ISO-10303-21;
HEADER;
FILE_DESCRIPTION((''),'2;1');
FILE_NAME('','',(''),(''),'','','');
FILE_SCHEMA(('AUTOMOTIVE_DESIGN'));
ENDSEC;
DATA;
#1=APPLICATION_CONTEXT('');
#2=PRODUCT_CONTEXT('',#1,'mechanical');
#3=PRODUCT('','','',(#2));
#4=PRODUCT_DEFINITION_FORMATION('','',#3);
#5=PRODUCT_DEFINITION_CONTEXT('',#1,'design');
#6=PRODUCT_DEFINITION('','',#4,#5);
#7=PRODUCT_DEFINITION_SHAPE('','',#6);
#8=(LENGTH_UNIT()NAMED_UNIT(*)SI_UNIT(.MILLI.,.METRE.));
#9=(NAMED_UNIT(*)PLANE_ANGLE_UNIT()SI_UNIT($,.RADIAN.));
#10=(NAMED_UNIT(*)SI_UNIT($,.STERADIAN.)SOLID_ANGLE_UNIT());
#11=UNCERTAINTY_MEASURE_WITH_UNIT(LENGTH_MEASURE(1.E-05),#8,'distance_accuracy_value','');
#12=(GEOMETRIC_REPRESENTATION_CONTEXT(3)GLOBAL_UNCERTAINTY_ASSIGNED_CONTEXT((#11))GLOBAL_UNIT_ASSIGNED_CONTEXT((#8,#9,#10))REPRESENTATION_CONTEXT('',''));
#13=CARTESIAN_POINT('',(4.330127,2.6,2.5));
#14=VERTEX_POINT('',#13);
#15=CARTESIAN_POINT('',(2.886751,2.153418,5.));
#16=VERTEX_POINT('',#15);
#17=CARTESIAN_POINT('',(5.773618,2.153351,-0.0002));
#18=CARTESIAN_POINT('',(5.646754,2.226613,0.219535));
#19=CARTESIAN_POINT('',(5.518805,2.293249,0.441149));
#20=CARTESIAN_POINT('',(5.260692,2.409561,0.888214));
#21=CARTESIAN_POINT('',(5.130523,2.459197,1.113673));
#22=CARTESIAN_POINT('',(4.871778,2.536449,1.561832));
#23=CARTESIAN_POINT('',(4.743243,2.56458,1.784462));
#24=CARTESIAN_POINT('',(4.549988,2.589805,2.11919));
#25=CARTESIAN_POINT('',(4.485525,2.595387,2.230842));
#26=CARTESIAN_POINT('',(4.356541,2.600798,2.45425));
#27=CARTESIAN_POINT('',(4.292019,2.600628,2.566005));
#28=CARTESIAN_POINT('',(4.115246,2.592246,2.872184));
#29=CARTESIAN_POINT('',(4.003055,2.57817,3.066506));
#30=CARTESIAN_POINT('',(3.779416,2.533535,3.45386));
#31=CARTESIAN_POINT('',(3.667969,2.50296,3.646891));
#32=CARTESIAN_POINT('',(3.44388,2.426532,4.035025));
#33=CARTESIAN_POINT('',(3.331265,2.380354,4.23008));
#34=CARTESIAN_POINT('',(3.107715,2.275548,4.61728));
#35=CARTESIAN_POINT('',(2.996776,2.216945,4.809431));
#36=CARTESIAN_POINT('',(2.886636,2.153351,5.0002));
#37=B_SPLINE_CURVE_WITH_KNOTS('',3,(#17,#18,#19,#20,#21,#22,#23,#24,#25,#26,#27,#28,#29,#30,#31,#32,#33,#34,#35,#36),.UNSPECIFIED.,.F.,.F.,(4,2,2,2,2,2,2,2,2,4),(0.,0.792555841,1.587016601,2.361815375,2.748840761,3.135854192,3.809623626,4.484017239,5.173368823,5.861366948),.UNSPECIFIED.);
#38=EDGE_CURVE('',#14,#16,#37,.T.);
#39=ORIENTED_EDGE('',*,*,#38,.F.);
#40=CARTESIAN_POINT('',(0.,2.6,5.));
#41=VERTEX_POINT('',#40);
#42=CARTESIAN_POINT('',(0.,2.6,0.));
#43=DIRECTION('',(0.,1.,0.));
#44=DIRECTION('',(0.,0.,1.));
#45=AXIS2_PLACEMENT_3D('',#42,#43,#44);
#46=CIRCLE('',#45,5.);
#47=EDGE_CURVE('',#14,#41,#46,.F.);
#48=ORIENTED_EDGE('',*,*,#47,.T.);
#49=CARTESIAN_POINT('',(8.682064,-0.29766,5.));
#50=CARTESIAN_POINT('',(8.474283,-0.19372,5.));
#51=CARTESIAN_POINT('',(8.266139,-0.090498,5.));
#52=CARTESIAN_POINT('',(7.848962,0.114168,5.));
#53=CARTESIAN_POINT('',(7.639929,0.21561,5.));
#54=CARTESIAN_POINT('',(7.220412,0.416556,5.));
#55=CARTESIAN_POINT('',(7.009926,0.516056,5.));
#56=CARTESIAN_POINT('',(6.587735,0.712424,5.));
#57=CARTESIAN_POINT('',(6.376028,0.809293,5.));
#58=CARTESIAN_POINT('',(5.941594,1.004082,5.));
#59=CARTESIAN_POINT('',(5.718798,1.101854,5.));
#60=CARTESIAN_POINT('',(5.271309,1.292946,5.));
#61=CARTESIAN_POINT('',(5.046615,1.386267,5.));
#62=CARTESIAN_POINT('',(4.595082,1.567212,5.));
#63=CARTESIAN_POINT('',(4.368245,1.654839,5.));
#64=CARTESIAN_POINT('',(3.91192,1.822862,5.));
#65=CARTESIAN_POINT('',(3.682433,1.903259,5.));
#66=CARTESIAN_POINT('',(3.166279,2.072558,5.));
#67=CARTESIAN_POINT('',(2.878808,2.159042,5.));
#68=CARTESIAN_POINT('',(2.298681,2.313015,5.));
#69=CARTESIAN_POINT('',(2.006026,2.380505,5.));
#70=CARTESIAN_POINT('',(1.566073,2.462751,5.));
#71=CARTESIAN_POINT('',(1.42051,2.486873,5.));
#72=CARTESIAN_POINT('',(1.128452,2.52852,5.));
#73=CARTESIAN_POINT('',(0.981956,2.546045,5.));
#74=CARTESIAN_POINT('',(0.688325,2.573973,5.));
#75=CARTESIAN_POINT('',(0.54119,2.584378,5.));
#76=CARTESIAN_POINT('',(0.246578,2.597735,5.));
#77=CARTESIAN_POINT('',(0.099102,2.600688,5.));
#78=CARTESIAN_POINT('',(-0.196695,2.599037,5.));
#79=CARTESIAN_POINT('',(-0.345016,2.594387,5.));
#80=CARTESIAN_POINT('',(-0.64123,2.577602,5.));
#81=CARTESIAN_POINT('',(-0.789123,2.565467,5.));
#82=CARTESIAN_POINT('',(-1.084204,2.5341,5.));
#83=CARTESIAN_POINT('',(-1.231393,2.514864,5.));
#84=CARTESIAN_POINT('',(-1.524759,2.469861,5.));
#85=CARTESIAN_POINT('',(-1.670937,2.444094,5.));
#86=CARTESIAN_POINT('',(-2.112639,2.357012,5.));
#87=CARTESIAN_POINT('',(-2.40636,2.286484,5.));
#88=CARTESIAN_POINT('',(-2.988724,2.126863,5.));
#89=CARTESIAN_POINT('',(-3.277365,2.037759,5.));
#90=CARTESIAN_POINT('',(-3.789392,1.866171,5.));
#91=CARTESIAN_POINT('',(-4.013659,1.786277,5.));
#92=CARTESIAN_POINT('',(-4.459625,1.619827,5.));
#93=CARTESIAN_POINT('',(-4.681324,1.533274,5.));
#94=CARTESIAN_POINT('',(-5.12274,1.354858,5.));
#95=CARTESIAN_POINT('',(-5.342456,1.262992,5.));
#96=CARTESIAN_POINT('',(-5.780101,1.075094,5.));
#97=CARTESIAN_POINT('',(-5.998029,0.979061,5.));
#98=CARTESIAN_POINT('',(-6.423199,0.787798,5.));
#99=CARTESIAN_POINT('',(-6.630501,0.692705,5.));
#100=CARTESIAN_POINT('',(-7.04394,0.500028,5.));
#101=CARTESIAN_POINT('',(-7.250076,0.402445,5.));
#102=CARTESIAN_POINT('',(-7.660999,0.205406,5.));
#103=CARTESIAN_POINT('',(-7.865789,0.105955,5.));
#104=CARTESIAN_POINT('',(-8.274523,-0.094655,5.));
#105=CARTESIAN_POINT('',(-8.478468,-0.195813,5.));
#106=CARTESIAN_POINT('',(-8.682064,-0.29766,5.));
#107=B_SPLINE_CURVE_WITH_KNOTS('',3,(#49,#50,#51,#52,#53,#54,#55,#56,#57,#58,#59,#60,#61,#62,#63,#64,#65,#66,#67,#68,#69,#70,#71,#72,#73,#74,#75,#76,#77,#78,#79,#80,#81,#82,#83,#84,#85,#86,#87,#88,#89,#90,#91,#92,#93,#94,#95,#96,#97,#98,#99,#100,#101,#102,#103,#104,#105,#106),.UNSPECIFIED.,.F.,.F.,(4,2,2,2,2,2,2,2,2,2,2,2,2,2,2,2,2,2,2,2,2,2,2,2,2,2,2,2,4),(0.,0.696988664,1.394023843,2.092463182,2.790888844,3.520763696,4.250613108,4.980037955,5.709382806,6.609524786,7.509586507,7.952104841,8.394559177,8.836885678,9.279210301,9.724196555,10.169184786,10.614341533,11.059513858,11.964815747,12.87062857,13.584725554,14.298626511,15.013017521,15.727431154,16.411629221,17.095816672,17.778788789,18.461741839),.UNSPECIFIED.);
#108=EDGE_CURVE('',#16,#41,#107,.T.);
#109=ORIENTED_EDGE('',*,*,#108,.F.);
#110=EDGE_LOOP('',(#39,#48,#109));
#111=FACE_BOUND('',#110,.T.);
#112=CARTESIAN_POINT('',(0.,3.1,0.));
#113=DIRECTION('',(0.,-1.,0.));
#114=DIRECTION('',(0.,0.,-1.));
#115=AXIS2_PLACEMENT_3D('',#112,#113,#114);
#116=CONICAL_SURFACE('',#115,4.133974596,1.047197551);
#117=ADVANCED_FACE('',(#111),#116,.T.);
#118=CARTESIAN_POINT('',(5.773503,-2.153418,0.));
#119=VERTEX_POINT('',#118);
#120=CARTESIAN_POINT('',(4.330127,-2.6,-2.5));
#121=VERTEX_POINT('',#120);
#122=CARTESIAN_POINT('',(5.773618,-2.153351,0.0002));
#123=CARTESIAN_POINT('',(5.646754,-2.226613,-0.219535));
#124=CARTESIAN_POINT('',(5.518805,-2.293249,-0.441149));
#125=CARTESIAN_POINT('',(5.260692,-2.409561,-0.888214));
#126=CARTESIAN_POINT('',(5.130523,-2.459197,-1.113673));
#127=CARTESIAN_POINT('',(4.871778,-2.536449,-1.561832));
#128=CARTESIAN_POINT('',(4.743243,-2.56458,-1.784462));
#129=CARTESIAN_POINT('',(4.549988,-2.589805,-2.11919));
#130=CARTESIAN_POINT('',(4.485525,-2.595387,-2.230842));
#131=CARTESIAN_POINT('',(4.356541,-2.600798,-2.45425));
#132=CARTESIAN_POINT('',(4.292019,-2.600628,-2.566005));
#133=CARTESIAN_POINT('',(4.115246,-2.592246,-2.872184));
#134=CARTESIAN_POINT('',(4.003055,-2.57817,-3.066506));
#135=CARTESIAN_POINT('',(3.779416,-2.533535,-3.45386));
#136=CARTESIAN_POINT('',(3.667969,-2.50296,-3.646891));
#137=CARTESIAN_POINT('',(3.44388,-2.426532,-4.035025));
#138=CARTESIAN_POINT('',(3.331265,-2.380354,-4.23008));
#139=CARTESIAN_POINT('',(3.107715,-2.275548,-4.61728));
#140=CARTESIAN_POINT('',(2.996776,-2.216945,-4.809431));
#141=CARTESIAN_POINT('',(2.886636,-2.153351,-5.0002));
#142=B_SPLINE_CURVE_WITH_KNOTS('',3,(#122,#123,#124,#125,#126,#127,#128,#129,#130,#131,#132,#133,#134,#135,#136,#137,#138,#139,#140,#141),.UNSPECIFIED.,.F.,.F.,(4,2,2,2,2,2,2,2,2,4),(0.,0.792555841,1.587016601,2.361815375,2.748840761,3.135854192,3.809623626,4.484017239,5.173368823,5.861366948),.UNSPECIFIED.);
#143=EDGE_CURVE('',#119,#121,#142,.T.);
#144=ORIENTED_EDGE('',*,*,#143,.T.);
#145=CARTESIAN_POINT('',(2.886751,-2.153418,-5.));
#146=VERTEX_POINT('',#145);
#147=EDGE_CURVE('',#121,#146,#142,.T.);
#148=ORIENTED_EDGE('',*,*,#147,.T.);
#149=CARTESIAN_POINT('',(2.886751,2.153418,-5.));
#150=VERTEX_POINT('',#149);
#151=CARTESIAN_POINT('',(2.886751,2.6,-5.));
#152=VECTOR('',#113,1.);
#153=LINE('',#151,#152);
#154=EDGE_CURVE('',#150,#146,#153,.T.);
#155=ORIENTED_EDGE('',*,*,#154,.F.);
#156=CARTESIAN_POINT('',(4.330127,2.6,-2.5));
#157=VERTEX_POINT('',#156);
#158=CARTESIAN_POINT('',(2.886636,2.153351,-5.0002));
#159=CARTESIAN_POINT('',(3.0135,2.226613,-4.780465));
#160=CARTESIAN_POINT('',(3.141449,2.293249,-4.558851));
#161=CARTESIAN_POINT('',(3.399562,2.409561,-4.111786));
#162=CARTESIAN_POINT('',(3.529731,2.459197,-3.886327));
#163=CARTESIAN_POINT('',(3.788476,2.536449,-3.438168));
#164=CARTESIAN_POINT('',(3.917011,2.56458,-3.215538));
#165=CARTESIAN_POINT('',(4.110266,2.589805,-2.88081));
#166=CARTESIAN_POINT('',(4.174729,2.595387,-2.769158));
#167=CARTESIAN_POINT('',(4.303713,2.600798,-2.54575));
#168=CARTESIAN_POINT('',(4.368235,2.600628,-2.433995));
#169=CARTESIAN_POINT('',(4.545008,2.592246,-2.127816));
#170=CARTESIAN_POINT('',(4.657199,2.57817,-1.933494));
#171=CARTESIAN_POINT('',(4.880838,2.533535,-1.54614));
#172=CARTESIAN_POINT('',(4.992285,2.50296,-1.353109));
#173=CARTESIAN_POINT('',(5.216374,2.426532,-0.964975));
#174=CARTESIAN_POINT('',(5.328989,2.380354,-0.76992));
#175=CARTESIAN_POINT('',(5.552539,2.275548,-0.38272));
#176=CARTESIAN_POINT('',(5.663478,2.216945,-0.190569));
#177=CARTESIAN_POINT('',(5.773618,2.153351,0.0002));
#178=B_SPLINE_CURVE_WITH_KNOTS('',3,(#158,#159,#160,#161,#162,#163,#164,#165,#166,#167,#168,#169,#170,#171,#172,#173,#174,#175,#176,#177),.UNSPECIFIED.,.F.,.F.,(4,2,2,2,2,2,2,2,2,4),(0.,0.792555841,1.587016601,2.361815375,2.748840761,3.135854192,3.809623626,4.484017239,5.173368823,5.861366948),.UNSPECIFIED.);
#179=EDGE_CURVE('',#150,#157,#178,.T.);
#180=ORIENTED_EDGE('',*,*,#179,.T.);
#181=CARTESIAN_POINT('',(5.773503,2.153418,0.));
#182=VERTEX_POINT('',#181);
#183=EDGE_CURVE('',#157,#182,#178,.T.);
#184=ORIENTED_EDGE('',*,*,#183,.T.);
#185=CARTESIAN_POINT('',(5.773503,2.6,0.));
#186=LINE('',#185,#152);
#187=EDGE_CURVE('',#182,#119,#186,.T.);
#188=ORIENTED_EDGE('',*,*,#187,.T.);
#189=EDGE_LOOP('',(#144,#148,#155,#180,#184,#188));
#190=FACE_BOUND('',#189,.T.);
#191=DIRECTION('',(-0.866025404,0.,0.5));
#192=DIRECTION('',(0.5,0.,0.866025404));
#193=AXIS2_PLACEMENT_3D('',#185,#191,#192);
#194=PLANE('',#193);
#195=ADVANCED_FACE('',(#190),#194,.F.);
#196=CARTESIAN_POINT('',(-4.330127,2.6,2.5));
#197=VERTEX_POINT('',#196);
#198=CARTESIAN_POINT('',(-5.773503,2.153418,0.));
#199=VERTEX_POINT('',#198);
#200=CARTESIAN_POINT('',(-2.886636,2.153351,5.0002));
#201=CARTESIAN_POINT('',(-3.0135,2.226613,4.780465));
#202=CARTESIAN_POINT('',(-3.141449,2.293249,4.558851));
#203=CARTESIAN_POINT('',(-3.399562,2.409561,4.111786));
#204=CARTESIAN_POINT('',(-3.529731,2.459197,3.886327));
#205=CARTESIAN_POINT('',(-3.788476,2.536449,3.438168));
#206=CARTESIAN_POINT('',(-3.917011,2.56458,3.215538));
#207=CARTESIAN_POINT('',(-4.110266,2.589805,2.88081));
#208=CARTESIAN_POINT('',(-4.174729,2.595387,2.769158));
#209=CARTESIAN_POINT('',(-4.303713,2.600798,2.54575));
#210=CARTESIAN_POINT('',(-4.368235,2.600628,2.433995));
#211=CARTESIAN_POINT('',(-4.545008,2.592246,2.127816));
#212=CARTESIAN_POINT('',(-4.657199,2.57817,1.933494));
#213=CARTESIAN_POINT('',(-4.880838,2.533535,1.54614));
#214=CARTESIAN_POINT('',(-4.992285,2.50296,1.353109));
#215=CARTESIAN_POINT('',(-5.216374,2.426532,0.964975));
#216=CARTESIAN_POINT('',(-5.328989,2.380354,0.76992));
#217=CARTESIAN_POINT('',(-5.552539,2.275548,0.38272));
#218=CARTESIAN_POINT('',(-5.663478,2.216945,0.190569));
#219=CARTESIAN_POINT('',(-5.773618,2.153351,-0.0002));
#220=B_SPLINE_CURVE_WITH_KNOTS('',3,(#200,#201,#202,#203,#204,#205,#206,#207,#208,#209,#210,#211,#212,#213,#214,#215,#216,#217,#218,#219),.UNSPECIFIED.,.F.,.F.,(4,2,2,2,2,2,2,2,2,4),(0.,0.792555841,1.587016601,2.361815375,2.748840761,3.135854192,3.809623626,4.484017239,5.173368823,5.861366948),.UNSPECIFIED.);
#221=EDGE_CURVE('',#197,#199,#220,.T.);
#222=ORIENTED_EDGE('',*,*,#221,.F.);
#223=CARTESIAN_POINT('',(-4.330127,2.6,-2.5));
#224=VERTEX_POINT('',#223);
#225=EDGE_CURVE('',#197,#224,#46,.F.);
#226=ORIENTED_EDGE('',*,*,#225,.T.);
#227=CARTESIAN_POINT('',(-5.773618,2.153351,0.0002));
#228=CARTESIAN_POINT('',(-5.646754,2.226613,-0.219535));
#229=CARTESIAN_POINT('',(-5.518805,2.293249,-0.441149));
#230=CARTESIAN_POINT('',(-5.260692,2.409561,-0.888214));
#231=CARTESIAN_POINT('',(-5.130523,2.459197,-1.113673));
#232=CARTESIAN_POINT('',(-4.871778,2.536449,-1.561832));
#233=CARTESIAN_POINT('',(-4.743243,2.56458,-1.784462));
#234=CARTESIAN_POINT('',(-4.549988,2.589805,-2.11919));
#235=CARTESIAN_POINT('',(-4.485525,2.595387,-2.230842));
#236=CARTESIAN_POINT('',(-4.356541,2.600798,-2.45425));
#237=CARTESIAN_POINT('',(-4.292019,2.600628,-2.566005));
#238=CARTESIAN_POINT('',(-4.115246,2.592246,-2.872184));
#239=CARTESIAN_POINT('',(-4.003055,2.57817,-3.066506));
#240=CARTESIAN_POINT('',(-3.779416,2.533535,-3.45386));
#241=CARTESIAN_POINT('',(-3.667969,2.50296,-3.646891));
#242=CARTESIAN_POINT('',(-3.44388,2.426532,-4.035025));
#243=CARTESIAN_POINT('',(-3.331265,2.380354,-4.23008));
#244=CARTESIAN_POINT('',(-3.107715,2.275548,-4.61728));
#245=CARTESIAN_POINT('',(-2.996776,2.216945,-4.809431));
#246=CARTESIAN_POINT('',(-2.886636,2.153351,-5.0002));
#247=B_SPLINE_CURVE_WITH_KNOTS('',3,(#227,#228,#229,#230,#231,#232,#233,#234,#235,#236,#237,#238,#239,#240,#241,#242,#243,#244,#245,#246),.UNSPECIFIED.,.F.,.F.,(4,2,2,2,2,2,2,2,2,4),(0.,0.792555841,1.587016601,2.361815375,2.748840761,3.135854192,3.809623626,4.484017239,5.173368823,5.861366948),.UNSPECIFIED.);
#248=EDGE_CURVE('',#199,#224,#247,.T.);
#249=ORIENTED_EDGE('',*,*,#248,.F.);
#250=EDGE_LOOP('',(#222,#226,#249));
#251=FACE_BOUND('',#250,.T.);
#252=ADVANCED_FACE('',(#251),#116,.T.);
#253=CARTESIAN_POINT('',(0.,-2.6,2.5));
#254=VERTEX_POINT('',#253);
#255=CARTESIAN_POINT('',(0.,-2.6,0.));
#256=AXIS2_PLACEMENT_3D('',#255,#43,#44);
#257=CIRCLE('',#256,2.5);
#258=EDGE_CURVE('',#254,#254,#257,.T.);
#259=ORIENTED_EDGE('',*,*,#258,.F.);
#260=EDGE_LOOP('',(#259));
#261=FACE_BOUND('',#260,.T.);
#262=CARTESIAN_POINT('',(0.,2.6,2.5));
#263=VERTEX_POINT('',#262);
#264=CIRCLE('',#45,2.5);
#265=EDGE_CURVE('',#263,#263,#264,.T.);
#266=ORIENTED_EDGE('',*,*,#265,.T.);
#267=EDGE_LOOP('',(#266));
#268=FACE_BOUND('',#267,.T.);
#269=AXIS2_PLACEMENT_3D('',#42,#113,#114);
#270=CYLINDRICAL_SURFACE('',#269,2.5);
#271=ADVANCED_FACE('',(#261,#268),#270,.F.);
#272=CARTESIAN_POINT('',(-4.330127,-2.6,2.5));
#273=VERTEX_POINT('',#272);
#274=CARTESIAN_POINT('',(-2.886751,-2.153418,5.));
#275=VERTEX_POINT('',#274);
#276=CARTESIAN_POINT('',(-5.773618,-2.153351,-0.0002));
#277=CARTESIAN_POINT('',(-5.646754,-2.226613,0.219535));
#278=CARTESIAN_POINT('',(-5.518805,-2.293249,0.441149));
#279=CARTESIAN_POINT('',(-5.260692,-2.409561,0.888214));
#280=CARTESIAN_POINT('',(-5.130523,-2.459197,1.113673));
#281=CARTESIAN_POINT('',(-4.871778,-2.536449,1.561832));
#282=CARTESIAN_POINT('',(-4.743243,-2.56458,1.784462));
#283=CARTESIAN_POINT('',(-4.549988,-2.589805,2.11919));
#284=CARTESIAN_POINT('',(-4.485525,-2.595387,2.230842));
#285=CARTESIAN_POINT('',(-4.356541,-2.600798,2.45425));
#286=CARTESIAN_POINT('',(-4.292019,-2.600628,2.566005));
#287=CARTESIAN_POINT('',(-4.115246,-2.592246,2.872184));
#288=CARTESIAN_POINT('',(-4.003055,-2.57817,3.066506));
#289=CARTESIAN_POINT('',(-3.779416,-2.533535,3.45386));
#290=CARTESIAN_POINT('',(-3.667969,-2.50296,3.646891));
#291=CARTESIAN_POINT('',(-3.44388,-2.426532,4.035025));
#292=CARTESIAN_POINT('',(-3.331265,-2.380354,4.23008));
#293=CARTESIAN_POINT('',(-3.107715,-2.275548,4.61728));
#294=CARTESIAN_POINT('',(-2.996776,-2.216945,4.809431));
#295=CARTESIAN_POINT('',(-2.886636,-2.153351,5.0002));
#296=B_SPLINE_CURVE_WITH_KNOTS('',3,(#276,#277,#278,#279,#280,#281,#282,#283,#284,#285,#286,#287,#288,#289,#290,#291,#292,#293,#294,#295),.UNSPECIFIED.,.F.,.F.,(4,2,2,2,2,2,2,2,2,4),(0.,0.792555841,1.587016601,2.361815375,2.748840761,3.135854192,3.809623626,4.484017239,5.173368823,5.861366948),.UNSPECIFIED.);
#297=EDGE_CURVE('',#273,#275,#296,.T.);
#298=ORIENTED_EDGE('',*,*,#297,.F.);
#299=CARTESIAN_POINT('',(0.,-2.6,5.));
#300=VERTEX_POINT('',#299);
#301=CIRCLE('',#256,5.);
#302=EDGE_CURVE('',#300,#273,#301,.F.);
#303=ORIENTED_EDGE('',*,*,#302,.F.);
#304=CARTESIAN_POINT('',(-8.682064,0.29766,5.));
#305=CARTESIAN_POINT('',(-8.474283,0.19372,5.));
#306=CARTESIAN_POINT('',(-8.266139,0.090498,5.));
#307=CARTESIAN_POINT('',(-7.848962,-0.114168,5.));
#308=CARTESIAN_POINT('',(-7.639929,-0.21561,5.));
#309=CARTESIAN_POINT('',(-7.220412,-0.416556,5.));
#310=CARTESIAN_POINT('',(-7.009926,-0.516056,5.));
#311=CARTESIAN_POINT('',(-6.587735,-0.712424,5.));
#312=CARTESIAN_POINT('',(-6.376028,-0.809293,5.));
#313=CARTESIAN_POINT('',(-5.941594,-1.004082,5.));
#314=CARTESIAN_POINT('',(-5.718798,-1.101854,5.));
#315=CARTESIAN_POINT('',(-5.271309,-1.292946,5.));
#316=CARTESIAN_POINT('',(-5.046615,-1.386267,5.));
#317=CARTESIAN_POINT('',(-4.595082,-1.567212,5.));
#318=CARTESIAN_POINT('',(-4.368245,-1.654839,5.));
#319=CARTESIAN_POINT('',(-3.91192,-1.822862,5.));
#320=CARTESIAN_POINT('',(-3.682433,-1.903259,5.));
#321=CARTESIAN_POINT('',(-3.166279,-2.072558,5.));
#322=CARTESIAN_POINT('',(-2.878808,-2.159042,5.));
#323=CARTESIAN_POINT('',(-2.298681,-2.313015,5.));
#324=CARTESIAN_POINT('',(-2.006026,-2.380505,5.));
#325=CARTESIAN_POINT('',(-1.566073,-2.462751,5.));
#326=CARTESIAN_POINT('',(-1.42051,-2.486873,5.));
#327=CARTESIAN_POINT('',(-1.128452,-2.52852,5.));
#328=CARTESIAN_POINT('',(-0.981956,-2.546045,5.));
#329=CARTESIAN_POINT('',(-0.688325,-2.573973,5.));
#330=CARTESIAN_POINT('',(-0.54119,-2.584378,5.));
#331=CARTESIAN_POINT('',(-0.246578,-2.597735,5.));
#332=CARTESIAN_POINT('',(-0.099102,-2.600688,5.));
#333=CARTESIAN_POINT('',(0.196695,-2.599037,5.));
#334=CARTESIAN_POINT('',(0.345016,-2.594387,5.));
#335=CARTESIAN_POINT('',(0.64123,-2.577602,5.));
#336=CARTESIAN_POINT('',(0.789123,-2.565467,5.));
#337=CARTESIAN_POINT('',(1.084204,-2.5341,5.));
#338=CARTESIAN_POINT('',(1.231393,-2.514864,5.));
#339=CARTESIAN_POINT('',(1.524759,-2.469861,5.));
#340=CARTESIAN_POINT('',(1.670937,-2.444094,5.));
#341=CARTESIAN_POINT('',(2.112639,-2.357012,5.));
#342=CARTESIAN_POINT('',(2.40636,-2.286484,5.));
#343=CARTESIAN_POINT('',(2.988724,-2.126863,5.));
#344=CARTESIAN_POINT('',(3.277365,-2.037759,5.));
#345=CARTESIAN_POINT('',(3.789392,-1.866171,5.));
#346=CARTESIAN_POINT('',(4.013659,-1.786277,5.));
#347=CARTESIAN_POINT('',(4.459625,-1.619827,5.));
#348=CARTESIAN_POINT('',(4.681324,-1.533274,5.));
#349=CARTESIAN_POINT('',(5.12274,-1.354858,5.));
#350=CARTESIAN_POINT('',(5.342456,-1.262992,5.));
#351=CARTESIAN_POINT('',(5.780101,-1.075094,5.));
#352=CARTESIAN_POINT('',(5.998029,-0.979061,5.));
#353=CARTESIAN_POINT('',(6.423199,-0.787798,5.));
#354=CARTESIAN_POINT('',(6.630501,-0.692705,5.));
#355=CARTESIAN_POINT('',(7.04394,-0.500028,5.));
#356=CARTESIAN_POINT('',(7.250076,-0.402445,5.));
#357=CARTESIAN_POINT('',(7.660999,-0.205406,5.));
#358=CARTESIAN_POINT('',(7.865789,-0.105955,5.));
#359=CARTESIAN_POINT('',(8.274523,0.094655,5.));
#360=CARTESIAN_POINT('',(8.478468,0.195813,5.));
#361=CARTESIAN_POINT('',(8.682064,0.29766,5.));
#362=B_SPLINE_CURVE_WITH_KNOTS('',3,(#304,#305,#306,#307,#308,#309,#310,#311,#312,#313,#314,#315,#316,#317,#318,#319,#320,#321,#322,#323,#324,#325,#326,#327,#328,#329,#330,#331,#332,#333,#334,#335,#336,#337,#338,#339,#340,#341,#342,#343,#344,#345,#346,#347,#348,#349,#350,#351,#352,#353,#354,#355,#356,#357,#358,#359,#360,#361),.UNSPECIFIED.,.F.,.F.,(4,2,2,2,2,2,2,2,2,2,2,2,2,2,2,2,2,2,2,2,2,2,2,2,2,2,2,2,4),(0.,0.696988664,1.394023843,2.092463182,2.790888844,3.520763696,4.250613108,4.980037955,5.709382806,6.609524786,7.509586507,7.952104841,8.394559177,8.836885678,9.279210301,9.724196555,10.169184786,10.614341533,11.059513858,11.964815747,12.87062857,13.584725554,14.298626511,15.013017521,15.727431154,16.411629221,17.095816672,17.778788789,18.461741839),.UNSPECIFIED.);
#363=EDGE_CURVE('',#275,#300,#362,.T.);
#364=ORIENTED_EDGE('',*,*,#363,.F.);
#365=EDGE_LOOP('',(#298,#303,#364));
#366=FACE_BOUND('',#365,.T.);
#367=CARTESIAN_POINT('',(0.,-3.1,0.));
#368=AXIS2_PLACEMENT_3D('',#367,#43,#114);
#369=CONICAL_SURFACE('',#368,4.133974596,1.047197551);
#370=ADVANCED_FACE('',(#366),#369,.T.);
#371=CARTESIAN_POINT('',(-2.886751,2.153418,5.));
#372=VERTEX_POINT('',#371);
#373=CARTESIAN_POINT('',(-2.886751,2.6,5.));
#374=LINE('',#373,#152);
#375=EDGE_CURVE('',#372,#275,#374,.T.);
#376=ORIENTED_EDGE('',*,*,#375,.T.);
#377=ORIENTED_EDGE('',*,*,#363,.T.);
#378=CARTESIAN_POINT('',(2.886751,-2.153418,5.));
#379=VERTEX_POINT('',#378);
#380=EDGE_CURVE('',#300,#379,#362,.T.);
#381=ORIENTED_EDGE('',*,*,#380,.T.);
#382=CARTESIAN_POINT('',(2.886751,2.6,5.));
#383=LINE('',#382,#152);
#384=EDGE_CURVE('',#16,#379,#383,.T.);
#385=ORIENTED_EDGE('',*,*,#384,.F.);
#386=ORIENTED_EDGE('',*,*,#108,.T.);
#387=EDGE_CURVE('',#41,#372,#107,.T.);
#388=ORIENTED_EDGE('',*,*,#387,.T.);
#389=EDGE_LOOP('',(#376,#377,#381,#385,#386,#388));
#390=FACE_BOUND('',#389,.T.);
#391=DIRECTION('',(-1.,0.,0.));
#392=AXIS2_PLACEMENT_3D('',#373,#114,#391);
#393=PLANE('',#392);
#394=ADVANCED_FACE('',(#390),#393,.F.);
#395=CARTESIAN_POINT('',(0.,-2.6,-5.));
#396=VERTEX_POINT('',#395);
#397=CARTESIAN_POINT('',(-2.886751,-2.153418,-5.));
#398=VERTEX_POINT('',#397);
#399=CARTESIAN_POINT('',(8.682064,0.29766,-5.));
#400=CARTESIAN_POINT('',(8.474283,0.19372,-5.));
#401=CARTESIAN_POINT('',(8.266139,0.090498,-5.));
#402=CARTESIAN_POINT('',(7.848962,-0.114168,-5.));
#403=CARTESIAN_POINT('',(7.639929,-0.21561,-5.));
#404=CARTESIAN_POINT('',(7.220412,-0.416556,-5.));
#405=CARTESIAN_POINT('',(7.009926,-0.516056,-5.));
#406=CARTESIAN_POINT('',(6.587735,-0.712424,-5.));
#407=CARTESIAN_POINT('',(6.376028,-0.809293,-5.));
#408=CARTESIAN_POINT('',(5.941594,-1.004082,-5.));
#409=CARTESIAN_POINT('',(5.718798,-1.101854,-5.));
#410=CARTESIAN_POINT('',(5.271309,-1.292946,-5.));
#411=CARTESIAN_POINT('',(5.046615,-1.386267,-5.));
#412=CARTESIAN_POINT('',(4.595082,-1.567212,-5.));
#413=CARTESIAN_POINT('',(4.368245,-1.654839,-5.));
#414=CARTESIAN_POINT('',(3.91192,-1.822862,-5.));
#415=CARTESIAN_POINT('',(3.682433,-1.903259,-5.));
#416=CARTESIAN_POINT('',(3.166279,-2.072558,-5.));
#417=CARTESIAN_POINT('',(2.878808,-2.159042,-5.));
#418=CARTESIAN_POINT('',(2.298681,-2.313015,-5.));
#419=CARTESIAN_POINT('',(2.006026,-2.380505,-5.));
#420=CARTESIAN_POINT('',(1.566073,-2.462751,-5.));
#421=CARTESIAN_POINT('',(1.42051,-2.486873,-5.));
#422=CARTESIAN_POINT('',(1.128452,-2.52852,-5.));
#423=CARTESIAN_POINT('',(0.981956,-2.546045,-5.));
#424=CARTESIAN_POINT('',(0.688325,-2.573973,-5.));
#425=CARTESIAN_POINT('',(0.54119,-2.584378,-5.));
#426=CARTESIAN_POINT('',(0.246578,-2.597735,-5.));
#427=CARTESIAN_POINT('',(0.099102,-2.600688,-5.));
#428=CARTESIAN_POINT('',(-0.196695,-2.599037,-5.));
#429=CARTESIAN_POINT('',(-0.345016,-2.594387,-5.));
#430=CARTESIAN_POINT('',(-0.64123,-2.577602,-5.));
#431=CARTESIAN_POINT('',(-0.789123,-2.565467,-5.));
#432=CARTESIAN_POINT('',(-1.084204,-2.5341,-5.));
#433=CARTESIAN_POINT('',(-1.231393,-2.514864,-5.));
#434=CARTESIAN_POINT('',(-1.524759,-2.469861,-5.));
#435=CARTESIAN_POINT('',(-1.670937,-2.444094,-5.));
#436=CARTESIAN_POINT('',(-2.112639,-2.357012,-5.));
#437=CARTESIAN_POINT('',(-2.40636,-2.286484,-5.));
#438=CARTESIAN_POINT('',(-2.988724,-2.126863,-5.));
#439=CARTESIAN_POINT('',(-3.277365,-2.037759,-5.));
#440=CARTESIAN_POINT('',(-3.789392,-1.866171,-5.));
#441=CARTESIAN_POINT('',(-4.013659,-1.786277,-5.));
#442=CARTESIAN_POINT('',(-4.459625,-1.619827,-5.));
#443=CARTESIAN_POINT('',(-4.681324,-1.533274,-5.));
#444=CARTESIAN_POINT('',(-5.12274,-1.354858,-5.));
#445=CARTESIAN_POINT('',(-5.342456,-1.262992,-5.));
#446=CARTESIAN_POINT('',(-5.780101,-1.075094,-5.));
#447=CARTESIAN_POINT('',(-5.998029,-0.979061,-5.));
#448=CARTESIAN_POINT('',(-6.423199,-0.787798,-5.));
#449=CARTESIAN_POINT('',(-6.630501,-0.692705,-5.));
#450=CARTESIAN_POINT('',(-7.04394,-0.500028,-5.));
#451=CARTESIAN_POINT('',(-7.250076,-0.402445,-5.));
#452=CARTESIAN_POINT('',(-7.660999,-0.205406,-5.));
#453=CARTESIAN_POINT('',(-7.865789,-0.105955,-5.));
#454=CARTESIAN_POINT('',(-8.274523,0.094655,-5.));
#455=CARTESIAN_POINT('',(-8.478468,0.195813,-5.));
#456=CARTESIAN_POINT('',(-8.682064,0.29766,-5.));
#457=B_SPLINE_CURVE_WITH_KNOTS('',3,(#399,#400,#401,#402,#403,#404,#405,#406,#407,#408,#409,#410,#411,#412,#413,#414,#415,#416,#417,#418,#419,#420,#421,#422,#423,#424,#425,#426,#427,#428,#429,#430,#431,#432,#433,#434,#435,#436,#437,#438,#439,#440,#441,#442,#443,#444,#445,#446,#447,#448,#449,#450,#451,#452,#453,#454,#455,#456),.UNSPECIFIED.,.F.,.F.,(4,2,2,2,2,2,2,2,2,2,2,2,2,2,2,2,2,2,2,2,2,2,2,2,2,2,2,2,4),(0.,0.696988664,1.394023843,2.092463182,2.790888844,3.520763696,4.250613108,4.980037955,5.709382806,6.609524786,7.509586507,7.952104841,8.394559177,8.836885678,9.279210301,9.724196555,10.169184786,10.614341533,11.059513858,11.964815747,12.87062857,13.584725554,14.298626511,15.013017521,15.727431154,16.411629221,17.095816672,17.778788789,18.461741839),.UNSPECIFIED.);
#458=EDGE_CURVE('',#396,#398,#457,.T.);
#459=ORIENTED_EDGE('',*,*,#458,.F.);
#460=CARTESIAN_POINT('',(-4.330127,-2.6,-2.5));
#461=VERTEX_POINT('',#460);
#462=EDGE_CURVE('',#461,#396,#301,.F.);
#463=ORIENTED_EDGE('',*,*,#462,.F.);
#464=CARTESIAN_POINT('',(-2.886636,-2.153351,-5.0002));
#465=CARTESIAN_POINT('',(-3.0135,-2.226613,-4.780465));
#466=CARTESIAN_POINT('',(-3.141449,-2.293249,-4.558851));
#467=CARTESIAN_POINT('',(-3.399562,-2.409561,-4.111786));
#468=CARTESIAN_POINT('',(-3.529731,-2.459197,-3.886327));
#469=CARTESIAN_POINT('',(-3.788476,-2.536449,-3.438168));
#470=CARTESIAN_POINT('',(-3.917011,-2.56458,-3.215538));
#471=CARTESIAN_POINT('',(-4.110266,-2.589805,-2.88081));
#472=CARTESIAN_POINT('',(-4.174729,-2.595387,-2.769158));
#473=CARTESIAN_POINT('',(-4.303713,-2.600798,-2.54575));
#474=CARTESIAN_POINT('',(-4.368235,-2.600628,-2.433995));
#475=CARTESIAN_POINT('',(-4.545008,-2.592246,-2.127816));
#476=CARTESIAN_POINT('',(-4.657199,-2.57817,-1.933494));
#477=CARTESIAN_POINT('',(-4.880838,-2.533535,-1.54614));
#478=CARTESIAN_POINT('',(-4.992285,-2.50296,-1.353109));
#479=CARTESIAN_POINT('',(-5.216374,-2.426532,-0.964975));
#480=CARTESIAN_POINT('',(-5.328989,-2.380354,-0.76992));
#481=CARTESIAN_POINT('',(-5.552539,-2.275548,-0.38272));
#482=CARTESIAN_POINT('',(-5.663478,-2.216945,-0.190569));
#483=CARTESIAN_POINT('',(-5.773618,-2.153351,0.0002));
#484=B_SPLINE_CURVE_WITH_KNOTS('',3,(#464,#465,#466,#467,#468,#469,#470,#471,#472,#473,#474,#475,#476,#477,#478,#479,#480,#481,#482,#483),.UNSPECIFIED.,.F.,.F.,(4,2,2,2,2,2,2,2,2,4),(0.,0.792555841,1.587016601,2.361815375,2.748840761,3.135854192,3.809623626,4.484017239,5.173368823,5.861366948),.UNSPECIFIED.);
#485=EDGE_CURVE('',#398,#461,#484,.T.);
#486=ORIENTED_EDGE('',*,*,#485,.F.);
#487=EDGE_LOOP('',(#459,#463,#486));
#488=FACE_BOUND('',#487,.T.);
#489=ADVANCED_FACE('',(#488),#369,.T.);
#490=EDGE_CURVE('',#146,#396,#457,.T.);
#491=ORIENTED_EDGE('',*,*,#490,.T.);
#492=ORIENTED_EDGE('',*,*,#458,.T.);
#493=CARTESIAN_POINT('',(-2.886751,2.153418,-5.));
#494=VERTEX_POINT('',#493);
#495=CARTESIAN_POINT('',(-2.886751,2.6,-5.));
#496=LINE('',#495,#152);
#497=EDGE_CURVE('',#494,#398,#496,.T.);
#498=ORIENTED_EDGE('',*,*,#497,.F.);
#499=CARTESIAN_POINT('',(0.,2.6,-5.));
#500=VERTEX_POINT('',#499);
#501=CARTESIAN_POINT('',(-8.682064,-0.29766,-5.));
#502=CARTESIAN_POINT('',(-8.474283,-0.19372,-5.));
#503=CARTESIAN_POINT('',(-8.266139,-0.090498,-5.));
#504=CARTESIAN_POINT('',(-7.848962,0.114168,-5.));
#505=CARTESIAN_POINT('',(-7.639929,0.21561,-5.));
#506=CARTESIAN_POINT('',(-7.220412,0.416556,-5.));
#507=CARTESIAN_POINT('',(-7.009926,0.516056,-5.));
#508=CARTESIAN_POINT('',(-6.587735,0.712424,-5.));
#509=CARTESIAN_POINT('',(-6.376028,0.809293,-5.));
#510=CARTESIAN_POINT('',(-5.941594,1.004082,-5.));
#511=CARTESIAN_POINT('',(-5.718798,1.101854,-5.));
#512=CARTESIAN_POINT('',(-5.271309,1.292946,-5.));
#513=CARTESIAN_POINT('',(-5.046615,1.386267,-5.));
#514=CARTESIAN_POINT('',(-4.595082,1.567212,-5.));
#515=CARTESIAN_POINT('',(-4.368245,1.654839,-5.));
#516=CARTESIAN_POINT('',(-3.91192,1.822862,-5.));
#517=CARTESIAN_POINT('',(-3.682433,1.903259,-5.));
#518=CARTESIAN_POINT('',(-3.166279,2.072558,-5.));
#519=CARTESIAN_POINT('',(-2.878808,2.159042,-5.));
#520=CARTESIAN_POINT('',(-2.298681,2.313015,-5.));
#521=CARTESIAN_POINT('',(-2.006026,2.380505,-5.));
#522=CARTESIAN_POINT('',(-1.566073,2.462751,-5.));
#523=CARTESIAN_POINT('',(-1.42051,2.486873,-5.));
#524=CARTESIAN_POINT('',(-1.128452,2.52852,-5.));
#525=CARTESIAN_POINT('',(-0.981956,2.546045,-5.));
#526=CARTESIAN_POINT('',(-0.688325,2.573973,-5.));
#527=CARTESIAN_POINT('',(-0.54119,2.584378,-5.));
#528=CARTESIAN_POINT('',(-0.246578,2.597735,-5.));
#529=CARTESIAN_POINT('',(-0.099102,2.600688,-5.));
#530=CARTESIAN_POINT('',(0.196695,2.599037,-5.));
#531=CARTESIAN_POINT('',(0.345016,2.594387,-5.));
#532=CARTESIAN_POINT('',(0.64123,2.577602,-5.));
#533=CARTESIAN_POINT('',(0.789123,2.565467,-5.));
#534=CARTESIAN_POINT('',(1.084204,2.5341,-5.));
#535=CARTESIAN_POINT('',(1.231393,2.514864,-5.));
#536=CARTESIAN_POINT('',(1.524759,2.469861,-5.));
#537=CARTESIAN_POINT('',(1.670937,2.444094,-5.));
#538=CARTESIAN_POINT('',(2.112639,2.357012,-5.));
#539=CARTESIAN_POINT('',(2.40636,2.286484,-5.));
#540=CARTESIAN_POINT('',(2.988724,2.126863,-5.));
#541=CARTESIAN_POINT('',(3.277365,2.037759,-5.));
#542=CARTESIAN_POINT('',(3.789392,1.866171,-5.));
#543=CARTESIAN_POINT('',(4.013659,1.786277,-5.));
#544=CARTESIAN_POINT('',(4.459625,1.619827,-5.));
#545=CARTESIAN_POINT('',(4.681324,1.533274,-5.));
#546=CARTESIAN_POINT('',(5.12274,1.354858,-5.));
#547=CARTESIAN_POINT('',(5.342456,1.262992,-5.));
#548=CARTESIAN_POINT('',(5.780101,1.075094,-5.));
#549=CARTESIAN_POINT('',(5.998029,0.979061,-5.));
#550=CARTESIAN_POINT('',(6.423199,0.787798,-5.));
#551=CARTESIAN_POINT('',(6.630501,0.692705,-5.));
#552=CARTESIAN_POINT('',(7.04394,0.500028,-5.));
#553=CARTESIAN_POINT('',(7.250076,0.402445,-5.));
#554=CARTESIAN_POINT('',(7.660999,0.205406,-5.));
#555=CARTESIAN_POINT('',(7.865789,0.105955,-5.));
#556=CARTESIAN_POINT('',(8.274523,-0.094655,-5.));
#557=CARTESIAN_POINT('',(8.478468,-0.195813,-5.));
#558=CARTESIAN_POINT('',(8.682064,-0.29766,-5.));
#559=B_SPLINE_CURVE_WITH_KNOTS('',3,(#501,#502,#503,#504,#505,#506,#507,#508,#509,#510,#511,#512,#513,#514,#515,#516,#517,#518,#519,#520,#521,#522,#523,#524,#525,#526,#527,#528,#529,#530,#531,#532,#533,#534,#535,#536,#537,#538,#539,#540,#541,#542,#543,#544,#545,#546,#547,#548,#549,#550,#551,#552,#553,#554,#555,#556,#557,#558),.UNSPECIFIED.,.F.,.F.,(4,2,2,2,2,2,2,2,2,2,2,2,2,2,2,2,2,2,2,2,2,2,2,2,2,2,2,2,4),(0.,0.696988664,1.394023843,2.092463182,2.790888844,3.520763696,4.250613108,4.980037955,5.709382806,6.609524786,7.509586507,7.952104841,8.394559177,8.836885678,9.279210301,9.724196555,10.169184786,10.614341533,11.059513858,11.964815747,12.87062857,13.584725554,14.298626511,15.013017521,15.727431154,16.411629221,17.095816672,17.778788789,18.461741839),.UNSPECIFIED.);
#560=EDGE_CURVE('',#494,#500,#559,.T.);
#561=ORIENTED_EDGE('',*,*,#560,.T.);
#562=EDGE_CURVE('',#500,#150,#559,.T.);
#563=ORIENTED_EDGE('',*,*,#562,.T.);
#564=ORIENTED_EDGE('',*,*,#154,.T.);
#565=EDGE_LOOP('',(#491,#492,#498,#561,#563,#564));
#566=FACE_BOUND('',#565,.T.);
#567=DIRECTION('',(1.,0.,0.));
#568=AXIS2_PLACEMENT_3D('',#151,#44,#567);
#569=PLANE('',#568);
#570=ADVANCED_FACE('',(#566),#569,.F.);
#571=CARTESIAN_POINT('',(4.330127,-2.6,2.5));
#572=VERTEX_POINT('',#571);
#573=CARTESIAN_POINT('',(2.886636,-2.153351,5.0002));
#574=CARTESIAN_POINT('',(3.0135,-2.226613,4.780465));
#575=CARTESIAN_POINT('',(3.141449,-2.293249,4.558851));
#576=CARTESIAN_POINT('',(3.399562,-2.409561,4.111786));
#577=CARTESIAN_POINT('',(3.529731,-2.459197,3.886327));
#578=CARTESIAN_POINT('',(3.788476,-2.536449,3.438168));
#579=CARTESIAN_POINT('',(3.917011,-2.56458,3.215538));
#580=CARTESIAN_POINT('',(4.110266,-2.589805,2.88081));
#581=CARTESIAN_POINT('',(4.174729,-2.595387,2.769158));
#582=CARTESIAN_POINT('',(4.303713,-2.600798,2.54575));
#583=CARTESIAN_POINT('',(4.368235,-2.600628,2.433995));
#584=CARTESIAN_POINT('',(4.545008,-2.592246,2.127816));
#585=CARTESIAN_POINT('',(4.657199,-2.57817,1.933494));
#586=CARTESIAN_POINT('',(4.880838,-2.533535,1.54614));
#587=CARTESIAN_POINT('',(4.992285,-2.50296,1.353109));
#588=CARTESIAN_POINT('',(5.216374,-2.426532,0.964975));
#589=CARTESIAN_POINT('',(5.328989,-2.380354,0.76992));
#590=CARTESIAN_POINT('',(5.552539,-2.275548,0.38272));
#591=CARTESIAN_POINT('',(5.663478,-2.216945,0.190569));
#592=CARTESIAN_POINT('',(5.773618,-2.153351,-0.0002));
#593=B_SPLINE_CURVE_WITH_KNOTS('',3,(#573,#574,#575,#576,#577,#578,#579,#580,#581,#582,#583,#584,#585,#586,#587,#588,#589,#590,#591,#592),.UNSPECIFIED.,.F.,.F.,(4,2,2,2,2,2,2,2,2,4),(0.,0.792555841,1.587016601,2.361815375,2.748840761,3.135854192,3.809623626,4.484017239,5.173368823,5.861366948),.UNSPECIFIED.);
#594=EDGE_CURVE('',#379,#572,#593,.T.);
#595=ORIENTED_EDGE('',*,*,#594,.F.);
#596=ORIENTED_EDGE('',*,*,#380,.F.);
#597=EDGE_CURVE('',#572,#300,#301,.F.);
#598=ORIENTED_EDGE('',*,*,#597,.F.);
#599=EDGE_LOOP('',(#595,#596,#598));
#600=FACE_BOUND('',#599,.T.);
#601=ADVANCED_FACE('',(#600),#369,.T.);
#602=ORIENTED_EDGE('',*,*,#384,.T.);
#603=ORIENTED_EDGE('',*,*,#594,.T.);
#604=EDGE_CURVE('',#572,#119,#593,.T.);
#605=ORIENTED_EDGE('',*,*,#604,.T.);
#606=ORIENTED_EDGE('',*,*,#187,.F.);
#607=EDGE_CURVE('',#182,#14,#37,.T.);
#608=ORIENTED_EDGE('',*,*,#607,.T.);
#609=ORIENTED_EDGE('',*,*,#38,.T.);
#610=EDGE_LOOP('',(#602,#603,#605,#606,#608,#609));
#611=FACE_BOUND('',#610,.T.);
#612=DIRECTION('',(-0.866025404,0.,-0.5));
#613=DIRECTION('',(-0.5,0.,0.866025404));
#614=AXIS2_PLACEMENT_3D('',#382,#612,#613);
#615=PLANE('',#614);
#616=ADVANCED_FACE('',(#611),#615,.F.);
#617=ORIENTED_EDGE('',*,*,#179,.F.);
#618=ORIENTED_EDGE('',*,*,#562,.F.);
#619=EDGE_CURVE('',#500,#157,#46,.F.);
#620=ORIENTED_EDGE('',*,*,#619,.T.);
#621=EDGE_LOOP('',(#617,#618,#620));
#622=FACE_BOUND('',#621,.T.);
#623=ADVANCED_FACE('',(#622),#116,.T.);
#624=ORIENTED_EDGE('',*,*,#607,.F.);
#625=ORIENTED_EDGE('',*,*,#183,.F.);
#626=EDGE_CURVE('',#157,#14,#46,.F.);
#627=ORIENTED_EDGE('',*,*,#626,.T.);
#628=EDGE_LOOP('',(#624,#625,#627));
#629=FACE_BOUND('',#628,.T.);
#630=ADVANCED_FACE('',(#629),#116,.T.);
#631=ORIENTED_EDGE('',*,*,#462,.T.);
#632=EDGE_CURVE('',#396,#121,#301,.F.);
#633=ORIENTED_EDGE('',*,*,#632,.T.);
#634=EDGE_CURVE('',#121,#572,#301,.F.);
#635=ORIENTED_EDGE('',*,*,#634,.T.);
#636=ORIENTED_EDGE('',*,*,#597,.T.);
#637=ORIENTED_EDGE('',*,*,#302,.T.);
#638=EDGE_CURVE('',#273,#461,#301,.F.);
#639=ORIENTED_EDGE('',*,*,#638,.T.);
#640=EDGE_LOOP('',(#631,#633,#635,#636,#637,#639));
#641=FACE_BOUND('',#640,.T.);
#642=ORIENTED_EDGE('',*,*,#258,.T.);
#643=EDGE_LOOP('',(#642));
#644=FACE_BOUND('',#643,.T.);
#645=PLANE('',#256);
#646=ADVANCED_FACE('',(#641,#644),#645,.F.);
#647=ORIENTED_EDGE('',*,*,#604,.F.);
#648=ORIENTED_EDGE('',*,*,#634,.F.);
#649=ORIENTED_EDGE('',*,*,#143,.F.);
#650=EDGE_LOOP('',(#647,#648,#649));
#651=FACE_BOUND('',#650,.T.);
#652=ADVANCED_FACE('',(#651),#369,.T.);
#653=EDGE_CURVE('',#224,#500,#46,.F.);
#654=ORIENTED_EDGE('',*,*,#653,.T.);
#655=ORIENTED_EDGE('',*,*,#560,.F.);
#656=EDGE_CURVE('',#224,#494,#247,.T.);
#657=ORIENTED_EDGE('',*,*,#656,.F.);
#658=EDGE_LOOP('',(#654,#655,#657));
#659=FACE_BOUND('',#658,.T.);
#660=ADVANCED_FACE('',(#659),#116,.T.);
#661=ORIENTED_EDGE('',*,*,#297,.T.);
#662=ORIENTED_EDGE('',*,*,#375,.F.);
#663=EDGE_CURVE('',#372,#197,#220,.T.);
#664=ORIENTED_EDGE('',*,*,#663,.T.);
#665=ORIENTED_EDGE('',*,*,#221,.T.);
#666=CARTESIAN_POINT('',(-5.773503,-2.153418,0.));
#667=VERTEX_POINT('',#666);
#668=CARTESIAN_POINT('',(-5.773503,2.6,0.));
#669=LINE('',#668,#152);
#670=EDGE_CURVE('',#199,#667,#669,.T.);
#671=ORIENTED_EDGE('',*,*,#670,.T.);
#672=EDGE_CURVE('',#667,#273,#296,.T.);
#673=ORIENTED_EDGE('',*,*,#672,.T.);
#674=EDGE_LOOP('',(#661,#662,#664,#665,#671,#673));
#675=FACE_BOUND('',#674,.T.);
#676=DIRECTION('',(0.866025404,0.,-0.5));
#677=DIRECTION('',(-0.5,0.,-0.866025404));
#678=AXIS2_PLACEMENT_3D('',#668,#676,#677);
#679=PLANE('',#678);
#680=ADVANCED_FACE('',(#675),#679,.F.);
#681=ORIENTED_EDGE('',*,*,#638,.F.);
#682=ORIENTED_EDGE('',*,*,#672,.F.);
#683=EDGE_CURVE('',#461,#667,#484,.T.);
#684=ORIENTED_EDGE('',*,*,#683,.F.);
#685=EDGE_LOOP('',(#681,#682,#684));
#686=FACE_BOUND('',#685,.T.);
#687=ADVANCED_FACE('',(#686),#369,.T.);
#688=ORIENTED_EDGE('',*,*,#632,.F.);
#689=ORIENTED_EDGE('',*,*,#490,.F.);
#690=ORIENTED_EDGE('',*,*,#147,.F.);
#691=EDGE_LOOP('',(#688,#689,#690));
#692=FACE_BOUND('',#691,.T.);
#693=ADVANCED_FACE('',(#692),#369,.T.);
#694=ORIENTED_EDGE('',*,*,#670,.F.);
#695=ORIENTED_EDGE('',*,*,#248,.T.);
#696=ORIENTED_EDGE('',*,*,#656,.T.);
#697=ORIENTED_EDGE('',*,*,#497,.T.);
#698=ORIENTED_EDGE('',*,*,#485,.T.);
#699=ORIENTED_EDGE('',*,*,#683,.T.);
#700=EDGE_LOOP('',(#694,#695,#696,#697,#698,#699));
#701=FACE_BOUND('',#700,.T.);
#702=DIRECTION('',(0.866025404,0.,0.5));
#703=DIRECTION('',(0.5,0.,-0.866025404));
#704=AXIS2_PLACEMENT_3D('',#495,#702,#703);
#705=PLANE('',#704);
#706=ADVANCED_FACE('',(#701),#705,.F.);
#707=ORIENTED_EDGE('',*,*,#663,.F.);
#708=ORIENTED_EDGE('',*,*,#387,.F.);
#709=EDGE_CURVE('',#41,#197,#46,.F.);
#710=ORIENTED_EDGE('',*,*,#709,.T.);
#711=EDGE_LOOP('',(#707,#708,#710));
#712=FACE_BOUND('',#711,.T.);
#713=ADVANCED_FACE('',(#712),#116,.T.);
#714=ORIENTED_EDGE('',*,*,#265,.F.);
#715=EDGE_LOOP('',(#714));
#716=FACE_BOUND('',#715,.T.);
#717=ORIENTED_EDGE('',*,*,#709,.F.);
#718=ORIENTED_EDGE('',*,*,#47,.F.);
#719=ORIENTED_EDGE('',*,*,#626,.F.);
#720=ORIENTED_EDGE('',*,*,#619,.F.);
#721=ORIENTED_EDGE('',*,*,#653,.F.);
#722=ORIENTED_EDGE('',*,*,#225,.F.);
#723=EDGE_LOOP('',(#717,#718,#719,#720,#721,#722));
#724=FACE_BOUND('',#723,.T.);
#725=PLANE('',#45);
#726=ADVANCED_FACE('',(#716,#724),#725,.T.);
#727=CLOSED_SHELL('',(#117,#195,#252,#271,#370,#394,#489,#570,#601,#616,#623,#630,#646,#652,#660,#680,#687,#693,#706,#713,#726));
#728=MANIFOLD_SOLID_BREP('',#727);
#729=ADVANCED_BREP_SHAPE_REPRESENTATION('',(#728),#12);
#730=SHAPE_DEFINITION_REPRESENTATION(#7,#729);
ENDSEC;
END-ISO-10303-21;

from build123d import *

# Parameters (mm, degrees)
SKETCH1_R           = 2.5
BOSS_EXTRUDE1_DEPTH = 2.6


with BuildPart() as part:
    # Sketch1 → Boss-Extrude1 (new, symmetric)
    with BuildSketch(Plane(origin=(0, 0, 0), x_dir=(1, 0, 0), z_dir=(0, 1, 0))):
        Polygon((5.773502692, 0), (2.886751346, 5), (-2.886751346, 5), (-5.773502692, 0), (-2.886751346, -5), (2.886751346, -5), align=None)
        with Locations(Location((0, 0, 0), (0, 0, 270))):
            Circle(SKETCH1_R, mode=Mode.SUBTRACT)
    extrude(amount=BOSS_EXTRUDE1_DEPTH, both=True)

    # Sketch3 → Cut-Revolve2 (revolve, cut)
    with BuildSketch(Plane(origin=(0, 0, 0), x_dir=(0, 0, -1), z_dir=(1, 0, 0))):
        Polygon((4.133974596, 3.1), (5.866025404, 2.1), (6.366025404, 2.966025404), (4.633974596, 3.966025404), align=None)
    cut_revolve2 = revolve(axis=Axis((0, -2.6, 0), (0, 1, 0)), mode=Mode.SUBTRACT)

    # Mirror1: Cut-Revolve2 across plane
    add(cut_revolve2.mirror(Plane.ZX), mode=Mode.SUBTRACT)


solid = part.part
